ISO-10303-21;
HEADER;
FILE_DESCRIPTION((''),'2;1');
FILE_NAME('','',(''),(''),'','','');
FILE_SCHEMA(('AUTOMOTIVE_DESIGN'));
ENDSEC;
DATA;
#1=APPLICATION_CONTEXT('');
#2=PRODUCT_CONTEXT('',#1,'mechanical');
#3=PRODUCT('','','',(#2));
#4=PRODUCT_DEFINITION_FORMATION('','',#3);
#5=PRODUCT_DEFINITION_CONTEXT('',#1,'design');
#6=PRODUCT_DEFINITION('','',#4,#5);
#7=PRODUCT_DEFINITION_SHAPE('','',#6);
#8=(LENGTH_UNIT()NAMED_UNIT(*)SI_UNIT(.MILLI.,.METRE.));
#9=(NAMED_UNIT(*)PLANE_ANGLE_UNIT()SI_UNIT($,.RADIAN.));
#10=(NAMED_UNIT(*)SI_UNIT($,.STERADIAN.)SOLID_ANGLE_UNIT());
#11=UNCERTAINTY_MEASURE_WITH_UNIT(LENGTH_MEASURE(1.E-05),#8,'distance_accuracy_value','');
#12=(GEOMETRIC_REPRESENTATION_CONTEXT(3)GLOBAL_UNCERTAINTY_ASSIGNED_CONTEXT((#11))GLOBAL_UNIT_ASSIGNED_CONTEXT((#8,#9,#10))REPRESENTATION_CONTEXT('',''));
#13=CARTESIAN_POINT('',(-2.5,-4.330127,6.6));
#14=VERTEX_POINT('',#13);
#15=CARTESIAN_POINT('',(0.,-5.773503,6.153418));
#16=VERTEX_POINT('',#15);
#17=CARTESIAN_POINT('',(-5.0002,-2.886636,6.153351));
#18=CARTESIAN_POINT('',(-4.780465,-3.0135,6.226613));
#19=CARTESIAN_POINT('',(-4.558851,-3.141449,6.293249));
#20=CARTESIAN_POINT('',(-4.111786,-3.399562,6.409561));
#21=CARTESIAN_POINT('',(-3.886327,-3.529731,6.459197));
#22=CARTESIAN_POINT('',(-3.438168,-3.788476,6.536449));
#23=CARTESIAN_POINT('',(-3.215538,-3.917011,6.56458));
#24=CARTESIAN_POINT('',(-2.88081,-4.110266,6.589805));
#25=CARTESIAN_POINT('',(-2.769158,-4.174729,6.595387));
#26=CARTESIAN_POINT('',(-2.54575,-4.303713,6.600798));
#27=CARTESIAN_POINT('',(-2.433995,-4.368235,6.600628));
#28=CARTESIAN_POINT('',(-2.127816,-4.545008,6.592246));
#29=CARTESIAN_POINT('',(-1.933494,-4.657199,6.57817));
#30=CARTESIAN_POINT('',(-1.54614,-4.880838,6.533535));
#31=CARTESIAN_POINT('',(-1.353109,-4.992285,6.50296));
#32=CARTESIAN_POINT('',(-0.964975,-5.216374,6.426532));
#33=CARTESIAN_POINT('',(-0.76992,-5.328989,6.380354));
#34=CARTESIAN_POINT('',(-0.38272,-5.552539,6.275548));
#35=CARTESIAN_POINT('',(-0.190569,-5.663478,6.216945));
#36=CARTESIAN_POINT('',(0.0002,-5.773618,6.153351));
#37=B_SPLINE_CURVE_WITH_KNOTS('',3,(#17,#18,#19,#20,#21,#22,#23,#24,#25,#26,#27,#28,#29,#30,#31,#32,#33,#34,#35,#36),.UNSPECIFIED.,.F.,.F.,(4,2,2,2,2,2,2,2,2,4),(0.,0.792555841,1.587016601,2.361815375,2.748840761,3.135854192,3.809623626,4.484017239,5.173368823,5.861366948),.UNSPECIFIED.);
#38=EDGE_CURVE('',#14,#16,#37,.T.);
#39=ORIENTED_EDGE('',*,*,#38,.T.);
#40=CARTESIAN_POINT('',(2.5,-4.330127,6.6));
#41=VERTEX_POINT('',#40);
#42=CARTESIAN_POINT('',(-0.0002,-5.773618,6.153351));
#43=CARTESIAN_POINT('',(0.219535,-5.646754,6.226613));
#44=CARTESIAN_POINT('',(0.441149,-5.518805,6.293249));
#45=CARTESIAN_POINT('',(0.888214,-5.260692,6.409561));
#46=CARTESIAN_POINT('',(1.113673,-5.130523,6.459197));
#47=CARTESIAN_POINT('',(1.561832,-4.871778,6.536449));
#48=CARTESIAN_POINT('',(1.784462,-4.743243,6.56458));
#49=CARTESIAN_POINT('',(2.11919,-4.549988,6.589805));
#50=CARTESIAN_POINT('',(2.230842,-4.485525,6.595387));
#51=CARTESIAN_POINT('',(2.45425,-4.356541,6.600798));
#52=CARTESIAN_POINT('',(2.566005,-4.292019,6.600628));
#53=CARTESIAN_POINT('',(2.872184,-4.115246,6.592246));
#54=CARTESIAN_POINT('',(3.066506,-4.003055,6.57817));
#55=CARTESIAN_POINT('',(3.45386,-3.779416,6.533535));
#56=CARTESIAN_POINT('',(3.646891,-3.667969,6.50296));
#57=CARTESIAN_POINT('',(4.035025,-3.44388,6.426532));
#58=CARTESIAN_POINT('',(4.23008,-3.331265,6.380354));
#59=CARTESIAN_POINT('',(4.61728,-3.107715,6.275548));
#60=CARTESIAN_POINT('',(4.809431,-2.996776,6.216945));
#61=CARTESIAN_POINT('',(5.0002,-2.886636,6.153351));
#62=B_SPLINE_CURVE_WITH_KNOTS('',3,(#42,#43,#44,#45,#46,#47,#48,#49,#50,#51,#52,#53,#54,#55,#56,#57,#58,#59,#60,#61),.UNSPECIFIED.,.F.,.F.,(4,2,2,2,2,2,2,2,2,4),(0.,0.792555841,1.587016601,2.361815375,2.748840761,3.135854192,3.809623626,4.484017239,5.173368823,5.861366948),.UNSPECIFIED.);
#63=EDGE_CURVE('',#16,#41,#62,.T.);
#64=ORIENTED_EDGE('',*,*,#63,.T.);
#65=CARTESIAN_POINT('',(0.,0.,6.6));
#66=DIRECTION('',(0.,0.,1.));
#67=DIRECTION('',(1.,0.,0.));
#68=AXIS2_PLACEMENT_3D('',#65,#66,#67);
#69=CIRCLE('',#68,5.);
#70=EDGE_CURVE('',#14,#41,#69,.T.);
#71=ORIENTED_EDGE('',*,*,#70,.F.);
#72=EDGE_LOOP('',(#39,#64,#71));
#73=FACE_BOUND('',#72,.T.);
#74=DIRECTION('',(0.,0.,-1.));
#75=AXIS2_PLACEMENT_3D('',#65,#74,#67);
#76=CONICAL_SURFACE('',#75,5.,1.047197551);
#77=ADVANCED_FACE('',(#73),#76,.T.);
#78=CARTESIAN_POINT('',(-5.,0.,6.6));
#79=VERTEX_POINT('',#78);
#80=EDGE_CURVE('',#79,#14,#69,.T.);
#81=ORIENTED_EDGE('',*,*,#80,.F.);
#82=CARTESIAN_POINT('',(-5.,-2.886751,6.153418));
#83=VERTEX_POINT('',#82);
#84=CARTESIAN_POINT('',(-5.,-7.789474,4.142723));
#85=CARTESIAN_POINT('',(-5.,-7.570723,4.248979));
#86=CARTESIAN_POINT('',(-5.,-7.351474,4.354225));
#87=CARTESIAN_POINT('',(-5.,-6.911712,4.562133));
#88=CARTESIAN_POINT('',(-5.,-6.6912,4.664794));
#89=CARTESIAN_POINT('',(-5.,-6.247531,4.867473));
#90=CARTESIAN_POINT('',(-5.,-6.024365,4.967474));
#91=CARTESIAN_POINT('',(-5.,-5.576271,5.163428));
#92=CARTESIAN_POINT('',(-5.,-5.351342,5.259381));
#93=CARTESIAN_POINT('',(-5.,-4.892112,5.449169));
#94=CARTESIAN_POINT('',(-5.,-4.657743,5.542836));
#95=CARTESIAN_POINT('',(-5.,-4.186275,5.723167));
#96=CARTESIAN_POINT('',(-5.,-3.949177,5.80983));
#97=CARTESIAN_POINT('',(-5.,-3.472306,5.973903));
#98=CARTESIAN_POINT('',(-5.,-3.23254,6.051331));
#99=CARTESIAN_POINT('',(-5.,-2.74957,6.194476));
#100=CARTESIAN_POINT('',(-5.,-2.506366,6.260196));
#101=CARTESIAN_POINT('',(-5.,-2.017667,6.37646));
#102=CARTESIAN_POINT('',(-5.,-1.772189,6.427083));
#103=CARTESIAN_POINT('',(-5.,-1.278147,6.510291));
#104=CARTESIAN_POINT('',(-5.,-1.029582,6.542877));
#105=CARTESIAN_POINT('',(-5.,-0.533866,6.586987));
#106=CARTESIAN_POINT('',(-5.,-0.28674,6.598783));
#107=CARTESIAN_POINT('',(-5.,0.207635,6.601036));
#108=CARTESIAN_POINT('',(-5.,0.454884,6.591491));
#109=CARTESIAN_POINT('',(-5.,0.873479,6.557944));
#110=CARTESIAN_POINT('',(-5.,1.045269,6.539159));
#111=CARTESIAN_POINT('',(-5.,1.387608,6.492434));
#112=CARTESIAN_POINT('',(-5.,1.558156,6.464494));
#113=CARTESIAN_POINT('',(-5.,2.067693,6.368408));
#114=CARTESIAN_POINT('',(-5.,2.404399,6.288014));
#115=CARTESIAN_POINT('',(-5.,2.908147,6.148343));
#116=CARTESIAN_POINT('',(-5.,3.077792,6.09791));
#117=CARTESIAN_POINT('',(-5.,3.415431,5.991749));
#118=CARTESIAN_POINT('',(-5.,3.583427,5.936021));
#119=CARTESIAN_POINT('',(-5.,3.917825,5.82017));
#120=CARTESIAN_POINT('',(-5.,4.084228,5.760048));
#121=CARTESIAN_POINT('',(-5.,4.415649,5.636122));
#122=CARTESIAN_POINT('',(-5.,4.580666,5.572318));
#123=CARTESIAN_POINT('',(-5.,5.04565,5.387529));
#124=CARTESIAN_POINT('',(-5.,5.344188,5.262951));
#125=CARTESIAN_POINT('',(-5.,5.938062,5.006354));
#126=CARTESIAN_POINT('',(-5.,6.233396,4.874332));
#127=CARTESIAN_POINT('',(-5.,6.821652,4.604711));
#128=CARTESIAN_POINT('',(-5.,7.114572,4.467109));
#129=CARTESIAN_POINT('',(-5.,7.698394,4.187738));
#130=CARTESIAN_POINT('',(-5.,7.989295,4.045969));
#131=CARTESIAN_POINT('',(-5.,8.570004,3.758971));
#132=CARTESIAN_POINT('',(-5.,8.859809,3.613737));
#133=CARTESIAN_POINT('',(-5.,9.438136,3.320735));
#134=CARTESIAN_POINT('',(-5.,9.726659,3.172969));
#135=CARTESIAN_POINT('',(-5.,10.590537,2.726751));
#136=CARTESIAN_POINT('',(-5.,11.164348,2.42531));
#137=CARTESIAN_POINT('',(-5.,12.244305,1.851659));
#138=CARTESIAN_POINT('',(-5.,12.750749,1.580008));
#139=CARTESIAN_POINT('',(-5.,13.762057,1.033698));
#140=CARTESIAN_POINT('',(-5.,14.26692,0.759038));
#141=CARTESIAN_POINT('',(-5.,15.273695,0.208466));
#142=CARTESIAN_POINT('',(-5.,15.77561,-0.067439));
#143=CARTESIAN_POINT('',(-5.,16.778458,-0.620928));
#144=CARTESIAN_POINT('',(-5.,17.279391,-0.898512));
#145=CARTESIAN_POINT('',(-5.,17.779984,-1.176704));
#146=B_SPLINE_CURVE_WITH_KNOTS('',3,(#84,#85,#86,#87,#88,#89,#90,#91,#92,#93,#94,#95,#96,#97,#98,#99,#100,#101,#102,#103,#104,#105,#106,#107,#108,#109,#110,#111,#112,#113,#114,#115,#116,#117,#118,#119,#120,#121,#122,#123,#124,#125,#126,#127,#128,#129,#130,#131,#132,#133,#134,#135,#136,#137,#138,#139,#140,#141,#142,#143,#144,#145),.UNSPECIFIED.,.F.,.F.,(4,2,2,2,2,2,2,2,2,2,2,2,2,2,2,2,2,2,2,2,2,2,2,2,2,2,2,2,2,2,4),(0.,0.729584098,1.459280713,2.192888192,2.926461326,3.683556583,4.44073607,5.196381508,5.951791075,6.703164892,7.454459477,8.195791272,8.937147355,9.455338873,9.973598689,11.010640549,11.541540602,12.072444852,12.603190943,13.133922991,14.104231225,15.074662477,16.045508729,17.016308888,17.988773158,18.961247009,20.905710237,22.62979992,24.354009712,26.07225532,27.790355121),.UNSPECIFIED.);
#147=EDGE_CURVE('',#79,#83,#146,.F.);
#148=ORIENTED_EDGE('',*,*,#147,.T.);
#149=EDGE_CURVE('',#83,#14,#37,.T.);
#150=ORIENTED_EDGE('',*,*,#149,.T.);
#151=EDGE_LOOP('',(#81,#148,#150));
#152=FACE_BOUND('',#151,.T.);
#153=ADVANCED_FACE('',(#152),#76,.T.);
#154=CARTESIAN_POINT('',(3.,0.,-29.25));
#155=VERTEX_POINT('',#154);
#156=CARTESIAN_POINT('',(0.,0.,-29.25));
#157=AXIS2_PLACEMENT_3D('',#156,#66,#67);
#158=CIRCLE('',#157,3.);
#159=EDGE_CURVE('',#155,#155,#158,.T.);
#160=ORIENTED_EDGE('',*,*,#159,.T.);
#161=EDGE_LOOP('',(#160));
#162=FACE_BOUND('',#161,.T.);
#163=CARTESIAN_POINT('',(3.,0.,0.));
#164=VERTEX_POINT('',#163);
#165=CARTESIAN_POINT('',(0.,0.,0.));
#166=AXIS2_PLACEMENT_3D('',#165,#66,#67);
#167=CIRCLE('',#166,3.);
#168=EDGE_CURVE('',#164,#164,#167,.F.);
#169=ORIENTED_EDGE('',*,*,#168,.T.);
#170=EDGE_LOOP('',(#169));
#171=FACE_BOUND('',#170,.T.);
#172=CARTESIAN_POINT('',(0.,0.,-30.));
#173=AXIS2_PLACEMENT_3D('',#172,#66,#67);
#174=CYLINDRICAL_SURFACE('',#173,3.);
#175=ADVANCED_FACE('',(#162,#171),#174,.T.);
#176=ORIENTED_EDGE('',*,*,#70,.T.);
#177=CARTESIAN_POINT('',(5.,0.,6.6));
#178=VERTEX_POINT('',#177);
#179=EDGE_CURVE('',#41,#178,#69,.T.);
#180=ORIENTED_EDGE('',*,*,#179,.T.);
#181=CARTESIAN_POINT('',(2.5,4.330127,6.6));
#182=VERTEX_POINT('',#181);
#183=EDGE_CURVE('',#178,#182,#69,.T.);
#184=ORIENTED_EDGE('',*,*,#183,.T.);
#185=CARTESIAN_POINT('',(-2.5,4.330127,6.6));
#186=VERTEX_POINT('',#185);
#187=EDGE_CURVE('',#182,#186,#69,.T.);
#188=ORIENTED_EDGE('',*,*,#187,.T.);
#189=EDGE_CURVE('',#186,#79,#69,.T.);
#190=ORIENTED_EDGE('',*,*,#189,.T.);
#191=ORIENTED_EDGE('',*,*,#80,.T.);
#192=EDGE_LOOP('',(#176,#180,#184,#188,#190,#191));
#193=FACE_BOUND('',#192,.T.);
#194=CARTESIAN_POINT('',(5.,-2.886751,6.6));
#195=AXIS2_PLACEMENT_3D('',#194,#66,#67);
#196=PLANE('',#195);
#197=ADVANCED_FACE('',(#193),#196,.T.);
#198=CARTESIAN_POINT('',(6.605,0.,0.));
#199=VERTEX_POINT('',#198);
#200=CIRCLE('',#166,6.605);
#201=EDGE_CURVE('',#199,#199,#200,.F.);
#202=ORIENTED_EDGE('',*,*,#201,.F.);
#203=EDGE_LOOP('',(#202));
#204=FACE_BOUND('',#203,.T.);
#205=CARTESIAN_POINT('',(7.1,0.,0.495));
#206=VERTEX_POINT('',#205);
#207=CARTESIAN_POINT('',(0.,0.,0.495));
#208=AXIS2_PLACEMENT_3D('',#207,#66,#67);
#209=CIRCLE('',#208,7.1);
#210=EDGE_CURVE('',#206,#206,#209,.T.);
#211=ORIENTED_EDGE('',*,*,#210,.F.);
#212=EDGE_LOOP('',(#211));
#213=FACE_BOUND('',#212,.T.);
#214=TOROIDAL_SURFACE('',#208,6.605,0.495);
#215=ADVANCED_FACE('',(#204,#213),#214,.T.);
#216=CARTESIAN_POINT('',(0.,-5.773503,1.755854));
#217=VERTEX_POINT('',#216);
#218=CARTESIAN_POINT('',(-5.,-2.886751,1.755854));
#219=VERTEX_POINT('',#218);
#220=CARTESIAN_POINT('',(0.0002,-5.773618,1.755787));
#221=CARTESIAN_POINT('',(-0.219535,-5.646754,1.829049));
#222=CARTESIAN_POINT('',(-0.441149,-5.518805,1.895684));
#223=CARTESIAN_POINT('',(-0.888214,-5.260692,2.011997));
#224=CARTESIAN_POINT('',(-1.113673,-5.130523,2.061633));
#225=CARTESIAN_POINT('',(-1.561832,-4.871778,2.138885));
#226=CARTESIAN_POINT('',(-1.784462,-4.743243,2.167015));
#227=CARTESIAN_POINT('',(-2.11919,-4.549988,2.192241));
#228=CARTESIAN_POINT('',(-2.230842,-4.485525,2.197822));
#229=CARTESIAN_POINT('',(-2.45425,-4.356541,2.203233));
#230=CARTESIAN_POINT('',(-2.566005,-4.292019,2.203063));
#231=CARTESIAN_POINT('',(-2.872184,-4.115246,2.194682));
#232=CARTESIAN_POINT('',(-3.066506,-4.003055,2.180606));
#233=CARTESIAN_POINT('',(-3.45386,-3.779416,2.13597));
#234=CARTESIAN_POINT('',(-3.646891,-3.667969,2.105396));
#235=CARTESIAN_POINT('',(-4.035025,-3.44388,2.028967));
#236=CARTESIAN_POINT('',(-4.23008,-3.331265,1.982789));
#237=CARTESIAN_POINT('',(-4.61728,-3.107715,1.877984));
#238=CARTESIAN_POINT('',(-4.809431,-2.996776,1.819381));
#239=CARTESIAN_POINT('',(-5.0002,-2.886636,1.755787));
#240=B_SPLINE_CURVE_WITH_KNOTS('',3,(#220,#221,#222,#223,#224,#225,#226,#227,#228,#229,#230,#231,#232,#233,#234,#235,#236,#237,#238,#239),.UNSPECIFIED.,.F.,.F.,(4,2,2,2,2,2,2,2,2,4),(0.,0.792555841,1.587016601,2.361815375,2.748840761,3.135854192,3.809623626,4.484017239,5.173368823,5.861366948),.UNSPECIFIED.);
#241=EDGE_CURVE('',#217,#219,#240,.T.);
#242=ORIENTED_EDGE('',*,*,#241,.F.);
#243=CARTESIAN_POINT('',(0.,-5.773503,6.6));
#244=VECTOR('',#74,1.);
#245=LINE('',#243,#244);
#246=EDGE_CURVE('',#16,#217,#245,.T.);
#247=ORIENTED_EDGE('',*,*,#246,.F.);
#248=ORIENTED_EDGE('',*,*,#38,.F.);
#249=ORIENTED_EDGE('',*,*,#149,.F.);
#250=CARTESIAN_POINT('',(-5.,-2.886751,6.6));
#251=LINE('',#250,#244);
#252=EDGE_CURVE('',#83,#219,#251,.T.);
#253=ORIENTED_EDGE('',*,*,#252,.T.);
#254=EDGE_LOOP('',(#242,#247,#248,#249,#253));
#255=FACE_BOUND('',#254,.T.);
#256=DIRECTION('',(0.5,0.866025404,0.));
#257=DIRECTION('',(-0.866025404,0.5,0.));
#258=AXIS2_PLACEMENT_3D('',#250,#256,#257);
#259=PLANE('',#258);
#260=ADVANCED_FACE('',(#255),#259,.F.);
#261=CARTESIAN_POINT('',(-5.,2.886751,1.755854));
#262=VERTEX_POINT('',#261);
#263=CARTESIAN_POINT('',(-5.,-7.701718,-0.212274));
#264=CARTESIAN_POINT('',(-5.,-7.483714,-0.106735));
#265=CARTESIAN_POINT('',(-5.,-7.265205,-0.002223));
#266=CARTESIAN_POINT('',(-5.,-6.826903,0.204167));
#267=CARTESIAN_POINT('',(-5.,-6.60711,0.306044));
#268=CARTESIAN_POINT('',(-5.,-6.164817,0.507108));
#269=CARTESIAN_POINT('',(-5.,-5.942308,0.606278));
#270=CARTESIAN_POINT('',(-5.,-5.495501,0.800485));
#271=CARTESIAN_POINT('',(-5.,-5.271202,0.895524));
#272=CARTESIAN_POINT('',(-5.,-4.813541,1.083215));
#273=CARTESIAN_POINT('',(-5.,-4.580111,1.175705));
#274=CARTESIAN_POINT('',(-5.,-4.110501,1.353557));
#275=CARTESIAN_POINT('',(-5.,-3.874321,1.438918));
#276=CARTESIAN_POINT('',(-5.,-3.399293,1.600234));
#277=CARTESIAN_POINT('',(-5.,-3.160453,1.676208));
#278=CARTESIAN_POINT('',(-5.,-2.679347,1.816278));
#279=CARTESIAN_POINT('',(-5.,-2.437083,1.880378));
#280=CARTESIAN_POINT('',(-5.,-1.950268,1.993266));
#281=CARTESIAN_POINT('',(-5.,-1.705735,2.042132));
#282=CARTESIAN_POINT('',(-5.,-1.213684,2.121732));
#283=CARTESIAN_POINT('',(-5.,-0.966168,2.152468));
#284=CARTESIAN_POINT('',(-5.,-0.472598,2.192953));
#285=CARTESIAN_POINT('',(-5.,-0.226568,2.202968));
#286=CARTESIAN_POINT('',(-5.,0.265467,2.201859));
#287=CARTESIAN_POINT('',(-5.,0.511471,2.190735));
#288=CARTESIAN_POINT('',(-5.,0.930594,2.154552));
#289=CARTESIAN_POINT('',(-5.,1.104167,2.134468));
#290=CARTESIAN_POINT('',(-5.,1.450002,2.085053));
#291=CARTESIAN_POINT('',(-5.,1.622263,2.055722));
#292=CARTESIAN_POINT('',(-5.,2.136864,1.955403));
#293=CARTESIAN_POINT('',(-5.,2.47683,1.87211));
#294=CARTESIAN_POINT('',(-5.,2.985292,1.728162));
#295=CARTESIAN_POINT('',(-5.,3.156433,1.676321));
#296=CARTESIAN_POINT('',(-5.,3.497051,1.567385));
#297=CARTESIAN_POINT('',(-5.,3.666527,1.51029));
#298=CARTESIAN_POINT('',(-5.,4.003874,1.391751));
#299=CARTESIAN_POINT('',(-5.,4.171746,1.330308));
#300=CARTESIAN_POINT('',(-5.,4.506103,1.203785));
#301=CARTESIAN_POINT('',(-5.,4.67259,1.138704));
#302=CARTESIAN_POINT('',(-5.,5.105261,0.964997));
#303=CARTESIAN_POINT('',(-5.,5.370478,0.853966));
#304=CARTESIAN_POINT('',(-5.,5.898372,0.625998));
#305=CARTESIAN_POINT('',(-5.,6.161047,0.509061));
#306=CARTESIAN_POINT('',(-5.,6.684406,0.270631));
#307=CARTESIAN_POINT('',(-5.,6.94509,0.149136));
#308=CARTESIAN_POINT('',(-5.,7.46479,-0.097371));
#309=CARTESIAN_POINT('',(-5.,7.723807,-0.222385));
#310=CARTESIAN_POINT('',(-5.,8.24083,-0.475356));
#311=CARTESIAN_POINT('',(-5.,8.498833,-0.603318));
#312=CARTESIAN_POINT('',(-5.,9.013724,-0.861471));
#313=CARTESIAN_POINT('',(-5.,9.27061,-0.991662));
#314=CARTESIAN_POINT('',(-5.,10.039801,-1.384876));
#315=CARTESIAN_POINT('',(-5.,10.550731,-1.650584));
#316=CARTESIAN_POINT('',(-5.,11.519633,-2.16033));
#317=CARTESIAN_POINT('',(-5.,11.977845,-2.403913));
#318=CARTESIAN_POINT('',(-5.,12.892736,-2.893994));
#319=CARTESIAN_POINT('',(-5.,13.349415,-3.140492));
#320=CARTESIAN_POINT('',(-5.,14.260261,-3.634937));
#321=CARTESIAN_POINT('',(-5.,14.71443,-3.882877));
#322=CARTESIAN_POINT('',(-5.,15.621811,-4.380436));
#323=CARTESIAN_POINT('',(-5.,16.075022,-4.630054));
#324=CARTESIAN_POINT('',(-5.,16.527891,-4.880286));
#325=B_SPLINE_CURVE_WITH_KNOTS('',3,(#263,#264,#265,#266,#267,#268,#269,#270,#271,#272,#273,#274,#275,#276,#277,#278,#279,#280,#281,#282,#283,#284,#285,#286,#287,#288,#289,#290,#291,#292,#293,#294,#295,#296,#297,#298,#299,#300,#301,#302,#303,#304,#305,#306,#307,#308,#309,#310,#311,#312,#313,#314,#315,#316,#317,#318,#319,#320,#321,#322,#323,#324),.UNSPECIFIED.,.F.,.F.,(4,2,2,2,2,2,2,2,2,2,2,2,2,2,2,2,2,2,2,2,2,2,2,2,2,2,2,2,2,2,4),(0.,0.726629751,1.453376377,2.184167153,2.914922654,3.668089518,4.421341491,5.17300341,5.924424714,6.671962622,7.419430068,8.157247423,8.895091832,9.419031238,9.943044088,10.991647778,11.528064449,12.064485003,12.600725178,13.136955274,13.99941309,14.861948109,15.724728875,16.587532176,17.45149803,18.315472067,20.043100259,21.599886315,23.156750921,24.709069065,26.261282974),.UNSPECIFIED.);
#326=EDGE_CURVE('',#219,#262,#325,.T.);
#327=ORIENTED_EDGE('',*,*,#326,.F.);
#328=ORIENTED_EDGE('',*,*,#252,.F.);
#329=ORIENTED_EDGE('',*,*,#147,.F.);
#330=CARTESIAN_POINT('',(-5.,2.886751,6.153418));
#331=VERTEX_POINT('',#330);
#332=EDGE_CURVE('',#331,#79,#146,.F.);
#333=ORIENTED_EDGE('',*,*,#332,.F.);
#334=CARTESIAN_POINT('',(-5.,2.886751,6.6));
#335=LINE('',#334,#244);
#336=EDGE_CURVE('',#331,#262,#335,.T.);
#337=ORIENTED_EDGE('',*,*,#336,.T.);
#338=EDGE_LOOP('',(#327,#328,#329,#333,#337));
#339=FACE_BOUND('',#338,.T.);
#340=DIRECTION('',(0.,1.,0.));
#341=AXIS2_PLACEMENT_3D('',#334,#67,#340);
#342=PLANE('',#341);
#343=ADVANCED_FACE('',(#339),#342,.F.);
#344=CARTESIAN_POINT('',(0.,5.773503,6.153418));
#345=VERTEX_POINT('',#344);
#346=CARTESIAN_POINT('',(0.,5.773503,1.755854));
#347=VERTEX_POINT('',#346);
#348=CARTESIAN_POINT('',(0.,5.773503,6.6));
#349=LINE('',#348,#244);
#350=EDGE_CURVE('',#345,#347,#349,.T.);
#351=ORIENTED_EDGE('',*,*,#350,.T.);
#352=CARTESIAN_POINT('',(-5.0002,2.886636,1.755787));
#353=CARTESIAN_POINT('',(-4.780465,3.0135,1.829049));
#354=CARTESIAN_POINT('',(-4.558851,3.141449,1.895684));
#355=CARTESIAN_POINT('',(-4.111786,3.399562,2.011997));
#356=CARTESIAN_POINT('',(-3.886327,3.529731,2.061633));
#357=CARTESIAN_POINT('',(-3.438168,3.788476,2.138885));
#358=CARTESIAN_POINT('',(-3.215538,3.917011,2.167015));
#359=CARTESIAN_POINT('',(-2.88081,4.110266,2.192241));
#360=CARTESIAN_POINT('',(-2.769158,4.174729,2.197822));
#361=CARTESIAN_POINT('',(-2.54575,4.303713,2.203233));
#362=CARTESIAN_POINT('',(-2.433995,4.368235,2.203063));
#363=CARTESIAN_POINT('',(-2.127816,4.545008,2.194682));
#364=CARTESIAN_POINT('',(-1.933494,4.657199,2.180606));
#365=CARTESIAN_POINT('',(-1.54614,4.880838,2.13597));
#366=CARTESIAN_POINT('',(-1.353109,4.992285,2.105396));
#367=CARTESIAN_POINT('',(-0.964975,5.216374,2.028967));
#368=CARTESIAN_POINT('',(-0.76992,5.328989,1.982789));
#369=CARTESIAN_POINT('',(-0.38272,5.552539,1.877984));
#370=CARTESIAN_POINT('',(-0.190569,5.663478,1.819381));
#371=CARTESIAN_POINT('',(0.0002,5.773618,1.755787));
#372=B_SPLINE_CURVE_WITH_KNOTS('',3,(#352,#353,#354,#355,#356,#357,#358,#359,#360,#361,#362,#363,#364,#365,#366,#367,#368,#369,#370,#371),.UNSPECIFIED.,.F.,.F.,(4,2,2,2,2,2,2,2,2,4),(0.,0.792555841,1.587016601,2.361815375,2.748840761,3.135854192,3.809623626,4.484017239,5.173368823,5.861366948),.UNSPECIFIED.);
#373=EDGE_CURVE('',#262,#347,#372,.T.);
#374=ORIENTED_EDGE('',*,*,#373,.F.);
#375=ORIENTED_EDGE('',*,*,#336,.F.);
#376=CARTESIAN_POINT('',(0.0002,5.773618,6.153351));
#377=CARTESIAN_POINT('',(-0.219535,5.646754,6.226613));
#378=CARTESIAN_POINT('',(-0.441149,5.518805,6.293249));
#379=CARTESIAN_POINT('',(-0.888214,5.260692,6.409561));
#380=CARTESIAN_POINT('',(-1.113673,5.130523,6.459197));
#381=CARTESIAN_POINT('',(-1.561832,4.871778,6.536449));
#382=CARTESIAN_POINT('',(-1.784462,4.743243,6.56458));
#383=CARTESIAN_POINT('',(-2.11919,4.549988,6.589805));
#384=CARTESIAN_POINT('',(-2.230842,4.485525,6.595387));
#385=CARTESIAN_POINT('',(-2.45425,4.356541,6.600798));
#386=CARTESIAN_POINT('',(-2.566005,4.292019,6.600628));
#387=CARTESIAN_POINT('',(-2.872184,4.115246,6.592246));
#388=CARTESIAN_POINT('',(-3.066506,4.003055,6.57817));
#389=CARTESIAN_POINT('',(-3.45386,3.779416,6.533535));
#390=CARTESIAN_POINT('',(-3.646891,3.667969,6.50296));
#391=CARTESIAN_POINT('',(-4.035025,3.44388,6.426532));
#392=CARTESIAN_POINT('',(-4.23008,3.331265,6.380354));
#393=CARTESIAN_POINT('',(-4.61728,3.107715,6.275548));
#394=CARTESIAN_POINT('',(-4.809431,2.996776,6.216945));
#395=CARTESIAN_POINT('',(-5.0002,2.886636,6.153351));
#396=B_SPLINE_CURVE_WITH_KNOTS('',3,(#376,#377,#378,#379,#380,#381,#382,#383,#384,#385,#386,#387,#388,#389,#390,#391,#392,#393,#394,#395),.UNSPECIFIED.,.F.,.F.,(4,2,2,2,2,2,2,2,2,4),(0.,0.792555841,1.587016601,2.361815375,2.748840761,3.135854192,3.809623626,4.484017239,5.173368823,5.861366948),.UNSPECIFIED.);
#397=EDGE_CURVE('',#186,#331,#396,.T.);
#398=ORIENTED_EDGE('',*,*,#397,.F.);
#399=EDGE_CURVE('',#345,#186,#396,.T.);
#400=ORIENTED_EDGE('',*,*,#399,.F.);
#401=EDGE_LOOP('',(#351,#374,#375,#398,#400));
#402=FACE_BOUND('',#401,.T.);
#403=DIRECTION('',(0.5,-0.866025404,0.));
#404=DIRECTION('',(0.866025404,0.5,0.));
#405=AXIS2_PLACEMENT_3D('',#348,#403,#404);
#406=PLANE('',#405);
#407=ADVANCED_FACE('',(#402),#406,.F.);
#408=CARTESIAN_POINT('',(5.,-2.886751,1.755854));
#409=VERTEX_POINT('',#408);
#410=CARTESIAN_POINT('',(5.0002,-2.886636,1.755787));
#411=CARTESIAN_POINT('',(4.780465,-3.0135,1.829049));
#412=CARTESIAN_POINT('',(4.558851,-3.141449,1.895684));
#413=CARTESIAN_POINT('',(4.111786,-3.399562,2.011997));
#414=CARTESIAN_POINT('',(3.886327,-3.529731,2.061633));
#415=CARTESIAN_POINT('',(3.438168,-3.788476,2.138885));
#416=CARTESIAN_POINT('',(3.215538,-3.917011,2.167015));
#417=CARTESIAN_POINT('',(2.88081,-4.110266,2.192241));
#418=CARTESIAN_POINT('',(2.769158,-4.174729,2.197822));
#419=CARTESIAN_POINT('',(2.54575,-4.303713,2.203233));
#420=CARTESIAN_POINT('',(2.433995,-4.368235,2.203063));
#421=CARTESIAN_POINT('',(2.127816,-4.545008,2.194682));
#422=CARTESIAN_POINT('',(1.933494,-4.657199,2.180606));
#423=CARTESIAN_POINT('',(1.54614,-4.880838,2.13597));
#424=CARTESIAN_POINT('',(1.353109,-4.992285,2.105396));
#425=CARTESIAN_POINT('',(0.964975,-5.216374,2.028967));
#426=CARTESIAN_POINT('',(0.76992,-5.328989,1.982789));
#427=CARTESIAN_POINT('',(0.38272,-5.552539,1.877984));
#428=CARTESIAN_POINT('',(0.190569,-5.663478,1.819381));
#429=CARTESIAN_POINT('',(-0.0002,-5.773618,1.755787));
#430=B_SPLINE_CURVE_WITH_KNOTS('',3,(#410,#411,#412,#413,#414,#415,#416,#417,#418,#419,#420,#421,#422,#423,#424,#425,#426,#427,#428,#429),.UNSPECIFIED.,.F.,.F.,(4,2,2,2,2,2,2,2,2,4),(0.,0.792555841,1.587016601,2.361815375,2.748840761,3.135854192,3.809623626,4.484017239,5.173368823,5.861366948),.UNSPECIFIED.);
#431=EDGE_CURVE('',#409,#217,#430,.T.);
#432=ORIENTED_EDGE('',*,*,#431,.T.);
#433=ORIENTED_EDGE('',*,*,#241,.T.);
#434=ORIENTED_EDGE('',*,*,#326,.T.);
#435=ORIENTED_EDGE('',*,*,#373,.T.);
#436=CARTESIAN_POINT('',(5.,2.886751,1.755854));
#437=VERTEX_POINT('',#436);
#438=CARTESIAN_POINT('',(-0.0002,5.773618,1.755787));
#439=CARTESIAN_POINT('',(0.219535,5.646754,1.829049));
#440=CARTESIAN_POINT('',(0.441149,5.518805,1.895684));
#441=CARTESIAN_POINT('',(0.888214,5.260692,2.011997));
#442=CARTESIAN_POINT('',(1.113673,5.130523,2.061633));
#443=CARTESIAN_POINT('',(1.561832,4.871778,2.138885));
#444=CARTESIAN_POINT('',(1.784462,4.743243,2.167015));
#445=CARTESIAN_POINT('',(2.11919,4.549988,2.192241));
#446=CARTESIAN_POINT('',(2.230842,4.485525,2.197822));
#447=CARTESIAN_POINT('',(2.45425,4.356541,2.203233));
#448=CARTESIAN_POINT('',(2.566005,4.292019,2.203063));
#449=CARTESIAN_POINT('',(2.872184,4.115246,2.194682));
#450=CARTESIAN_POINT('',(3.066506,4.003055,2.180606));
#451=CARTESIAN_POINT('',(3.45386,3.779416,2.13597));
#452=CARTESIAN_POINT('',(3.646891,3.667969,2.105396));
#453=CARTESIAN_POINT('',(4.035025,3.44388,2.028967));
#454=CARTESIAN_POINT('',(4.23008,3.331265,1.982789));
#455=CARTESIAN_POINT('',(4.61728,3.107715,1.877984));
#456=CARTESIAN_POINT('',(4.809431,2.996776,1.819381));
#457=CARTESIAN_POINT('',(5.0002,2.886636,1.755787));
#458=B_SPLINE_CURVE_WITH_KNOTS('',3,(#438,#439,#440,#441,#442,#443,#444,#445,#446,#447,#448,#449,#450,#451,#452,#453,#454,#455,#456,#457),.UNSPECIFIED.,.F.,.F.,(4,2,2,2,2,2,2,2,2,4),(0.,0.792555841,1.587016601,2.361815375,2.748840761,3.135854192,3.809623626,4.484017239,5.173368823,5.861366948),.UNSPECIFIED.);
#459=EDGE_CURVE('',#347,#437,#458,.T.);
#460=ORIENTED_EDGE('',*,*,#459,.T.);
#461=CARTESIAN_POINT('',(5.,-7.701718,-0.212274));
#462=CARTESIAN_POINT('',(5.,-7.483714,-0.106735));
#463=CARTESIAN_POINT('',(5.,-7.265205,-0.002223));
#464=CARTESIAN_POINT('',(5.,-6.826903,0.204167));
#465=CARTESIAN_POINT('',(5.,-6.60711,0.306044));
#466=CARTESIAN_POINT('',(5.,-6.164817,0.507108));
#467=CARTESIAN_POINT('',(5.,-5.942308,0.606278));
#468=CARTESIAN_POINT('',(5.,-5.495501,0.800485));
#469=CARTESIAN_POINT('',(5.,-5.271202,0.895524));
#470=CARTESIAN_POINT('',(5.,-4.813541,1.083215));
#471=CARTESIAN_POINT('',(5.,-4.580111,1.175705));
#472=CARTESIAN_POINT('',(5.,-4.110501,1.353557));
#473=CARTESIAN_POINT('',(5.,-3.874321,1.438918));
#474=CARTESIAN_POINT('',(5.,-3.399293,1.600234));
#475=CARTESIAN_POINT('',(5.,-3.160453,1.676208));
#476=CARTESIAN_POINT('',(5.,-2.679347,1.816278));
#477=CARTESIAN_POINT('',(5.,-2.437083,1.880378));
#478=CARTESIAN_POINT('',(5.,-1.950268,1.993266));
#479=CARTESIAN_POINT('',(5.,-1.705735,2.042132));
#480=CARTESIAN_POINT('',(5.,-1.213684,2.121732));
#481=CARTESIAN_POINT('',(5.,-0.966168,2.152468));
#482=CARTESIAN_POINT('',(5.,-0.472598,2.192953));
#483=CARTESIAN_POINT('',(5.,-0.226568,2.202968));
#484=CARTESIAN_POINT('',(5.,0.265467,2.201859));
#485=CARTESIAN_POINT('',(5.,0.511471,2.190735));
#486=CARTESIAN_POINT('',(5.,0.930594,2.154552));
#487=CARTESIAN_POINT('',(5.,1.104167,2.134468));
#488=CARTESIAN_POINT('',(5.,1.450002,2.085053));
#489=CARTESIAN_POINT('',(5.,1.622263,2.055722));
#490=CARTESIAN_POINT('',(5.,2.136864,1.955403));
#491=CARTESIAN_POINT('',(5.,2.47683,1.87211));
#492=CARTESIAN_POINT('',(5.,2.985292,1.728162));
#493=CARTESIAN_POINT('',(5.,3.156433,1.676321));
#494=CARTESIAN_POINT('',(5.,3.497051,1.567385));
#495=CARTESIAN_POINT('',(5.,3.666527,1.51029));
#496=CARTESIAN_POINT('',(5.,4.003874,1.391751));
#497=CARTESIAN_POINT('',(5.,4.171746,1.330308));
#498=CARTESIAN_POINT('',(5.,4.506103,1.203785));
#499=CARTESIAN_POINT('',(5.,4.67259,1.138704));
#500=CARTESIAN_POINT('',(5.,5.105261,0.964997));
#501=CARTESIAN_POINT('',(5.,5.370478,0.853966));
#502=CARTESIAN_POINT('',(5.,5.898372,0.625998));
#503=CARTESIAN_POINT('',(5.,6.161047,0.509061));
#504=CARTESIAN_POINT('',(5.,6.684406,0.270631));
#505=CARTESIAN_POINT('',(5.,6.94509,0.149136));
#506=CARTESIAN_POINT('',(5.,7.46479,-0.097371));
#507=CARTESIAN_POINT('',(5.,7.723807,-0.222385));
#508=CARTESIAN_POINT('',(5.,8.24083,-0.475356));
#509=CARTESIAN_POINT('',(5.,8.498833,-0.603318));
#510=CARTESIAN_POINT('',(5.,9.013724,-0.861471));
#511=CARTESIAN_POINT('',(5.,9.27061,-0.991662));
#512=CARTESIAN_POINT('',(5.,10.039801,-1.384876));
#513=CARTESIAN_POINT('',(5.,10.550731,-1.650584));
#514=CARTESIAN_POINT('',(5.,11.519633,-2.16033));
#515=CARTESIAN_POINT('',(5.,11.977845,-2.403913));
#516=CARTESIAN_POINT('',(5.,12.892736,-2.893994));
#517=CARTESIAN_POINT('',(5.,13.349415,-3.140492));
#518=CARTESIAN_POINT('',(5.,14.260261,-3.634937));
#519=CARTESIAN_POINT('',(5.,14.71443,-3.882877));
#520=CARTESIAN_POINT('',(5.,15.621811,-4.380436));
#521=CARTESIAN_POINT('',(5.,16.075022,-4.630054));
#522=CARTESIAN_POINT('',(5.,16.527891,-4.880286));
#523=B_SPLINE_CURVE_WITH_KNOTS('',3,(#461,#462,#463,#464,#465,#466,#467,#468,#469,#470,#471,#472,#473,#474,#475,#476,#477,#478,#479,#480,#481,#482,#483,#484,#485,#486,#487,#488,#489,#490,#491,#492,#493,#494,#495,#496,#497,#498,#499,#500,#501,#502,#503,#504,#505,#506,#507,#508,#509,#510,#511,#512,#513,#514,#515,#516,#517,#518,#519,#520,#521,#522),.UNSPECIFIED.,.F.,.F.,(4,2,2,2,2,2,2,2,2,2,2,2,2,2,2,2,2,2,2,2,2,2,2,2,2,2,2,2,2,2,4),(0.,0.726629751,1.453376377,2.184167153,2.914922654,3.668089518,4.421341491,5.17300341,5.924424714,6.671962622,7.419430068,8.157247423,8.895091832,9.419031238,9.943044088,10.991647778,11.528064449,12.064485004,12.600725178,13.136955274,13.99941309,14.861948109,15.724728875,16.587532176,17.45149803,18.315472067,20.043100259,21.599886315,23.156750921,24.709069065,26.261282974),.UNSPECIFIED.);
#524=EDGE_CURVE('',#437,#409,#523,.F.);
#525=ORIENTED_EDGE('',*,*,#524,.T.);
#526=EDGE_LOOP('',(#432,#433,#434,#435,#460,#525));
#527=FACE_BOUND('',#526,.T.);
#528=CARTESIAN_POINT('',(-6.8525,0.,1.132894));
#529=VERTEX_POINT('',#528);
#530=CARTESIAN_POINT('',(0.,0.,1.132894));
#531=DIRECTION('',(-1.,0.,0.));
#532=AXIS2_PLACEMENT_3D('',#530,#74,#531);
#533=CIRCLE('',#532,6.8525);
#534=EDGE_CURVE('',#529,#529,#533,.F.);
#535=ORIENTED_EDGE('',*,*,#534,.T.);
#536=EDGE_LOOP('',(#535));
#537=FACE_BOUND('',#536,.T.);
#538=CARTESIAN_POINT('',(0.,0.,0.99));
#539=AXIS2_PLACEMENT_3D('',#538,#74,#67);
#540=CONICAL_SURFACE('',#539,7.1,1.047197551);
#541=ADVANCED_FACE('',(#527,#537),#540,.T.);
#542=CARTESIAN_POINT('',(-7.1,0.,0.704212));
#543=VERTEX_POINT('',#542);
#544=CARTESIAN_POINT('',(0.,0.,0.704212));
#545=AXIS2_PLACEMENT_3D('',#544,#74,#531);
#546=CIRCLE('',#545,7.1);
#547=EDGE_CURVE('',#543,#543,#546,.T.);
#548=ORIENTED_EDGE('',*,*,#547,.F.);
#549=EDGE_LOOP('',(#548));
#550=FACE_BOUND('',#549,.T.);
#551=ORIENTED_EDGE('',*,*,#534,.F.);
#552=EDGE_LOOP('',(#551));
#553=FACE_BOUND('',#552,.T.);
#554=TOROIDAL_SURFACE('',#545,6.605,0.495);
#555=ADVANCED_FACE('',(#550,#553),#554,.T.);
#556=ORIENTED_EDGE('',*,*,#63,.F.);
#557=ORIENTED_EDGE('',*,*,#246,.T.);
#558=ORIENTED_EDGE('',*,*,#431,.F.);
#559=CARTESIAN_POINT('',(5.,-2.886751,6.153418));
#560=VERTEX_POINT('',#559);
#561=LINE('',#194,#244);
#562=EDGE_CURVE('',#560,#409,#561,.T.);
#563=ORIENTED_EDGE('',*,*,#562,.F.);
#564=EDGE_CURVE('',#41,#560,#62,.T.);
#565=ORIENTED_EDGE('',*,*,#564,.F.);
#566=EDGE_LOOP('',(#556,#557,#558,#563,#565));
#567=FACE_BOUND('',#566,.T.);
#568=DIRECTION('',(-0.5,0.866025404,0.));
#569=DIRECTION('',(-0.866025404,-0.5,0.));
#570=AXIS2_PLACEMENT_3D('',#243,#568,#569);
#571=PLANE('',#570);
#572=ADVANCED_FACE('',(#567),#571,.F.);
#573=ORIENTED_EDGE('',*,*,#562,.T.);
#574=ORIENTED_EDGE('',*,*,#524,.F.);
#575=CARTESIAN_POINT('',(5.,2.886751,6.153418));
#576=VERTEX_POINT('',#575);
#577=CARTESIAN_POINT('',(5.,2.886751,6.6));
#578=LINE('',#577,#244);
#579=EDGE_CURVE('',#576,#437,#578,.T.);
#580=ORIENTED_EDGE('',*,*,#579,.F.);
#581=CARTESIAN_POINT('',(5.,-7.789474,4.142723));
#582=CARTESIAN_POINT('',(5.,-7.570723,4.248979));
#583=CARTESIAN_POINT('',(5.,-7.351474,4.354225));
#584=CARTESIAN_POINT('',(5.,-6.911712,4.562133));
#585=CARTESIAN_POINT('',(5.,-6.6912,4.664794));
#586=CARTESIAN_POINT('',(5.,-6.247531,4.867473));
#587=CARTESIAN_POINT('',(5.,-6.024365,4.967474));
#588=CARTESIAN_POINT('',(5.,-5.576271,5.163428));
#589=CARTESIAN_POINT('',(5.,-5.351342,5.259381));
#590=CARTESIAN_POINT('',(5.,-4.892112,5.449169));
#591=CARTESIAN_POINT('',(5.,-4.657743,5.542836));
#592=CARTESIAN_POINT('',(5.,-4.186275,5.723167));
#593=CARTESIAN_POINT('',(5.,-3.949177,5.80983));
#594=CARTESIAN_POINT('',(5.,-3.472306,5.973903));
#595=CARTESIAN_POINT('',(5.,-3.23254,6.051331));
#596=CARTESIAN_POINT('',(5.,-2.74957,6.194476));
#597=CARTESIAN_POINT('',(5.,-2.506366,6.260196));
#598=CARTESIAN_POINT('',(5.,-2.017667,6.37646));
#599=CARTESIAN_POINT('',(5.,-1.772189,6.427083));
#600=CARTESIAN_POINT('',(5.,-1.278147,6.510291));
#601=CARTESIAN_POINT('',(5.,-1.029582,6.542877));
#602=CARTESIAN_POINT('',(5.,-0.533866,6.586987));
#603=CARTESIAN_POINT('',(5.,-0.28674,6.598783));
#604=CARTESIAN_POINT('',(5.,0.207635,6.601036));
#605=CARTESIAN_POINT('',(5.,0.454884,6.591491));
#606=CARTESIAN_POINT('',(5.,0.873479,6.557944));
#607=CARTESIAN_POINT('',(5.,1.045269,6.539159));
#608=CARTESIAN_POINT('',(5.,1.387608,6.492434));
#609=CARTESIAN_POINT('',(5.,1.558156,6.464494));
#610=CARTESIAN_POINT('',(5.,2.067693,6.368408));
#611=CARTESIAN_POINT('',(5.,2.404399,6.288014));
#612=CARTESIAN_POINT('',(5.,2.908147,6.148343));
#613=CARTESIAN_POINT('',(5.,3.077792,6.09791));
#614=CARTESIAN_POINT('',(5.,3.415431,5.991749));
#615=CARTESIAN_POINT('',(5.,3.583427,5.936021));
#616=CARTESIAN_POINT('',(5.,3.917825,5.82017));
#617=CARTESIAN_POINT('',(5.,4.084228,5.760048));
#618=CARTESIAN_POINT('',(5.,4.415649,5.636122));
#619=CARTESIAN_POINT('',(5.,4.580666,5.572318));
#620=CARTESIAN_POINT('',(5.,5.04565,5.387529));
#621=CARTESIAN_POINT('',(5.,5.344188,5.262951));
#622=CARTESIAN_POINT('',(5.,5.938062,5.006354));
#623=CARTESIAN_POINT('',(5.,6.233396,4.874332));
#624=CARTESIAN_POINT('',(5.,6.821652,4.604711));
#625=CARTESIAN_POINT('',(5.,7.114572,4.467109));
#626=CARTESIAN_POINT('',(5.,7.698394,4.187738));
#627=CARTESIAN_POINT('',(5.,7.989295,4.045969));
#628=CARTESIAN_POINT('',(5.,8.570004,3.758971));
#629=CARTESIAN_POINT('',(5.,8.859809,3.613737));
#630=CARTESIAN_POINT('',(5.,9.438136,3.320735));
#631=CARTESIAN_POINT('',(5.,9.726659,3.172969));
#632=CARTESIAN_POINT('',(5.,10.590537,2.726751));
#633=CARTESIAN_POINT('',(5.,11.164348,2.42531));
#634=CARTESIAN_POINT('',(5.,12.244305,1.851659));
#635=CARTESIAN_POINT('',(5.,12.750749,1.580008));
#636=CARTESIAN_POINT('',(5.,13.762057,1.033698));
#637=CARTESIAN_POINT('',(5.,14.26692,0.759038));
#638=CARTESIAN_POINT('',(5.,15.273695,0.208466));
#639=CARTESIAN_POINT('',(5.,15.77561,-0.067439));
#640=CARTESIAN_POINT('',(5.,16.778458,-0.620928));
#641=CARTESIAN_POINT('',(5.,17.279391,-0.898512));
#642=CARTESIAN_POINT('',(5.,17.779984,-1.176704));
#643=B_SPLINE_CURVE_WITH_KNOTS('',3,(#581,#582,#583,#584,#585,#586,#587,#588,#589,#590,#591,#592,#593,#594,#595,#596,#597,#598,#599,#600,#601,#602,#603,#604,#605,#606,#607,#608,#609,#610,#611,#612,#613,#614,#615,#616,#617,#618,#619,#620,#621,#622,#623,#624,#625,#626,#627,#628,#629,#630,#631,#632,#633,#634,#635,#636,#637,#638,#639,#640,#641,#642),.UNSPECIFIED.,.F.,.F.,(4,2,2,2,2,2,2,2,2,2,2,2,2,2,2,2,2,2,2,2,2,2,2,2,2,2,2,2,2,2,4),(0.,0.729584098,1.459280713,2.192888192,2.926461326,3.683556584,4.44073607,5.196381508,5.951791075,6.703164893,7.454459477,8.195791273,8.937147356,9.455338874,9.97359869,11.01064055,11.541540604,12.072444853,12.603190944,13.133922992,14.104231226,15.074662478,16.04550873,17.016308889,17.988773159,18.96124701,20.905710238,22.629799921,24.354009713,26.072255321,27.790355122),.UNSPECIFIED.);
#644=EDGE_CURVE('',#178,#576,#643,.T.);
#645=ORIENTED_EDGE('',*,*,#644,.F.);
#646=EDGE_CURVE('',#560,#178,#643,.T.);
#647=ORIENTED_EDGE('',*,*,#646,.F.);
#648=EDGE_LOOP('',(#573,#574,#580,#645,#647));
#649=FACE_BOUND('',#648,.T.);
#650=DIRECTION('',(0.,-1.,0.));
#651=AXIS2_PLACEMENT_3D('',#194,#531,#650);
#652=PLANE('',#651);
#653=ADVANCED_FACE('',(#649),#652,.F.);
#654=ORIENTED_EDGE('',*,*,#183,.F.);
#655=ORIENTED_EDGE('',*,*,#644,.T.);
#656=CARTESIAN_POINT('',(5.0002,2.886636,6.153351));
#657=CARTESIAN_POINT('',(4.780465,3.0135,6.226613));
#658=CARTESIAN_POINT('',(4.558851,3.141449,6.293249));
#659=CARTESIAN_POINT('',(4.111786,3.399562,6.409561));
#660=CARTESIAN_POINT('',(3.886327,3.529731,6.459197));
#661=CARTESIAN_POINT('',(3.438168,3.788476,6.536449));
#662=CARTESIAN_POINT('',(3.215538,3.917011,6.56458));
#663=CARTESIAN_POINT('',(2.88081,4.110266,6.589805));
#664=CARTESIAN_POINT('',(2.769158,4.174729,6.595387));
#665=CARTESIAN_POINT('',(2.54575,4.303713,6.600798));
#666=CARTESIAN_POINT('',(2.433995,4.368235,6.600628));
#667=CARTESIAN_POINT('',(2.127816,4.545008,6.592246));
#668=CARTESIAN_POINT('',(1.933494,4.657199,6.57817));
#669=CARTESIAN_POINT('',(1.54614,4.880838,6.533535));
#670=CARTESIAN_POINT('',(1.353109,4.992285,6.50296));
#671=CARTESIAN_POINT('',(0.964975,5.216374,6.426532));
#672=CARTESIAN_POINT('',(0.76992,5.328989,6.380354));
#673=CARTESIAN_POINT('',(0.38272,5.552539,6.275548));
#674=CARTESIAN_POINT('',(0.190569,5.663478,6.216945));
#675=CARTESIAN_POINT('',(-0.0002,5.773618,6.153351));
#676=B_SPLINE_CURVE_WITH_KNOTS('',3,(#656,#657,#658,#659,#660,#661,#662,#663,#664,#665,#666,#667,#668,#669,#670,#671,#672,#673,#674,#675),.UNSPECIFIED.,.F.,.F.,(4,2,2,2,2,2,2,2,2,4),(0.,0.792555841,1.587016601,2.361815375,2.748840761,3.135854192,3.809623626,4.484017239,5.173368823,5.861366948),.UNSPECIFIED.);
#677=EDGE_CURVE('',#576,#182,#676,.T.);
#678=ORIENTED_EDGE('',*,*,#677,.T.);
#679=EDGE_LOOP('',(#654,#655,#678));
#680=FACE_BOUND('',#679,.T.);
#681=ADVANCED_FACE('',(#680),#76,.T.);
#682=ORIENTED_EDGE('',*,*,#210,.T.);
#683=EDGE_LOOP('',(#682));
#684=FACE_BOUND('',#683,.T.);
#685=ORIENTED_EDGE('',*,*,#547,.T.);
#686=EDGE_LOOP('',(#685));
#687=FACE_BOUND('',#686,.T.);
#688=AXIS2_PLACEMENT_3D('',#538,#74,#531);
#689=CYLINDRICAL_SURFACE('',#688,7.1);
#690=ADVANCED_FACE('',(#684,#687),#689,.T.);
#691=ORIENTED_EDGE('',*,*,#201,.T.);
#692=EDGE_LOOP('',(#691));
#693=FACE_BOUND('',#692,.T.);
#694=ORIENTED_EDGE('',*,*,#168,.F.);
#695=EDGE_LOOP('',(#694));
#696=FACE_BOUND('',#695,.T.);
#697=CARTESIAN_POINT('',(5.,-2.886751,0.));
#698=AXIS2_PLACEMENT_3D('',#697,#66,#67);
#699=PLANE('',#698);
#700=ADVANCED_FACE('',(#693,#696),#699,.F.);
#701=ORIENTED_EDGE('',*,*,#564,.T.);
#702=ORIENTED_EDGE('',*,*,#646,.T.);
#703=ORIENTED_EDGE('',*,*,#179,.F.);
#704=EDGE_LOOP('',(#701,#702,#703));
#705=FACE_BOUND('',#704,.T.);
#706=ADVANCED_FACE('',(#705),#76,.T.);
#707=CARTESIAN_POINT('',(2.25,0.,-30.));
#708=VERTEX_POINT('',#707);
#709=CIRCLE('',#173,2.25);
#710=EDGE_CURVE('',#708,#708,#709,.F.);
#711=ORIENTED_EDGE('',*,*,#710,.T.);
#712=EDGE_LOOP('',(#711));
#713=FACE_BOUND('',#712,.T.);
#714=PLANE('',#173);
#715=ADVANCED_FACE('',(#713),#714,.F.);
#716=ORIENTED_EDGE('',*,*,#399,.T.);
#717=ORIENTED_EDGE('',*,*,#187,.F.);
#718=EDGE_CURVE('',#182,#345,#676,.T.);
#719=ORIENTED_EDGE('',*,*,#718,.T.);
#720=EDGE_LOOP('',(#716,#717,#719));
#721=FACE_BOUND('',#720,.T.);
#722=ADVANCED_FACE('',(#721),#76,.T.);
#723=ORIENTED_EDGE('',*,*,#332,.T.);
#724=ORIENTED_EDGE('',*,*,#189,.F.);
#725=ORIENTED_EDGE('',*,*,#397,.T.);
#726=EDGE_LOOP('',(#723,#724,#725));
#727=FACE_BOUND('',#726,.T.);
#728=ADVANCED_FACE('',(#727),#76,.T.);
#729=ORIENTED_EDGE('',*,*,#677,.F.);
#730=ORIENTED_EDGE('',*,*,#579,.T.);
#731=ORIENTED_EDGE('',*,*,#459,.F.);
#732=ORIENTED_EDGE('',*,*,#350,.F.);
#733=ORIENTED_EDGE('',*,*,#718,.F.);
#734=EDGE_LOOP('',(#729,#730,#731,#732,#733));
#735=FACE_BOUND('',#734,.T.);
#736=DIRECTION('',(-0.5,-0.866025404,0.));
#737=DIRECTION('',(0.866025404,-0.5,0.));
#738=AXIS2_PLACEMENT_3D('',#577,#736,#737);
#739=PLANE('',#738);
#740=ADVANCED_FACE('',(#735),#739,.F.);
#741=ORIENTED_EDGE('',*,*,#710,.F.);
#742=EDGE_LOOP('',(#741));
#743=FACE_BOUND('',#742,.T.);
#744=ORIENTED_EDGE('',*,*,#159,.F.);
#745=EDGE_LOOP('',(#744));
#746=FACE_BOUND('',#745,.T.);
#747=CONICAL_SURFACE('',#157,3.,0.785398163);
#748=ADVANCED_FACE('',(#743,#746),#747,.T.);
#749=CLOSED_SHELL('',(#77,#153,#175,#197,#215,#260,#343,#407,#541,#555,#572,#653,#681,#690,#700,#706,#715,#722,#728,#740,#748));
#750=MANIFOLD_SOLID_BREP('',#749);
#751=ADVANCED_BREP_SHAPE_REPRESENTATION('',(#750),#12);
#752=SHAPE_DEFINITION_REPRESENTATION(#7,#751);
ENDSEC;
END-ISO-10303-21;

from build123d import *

# Parameters (mm, degrees)
EXTRUDE1_DEPTH     = 6.6
SKETCH2_R          = 7.1
EXTRUDE2_DEPTH     = 0.99
SKETCH15_OUTSIDE_W = 43.29
SKETCH15_OUTSIDE_H = 43.29
SKETCH15_OUTSIDE_R = 5
CUT_EXTRUDE5_DEPTH = 6.6
CUT_EXTRUDE5_DRAFT = -60
SKETCH5_W          = 30
SKETCH5_H          = 3
CHAMFER1_SIZE      = 0.75
SKETCH11_R         = 7.1
EXTRUDE3_DEPTH     = 3.3
EXTRUDE3_TAPER     = 60
FILLET1_R          = 0.495


with BuildPart() as part:
    # Sketch1 → Extrude1 (new body)
    with BuildSketch(Plane.XY):
        Polygon((5, -2.886751346), (5, 2.886751346), (0, 5.773502692), (-5, 2.886751346), (-5, -2.886751346), (0, -5.773502692), align=None)
    extrude(amount=EXTRUDE1_DEPTH)

    # Sketch2 → Extrude2 (add)
    with BuildSketch(Plane(origin=(0, 0, 0), x_dir=(-1, 0, 0), z_dir=(0, 0, -1))):
        Circle(SKETCH2_R)
    extrude(amount=-EXTRUDE2_DEPTH)


with BuildPart() as cut_extrude5_tool:
    # Sketch15 outside → Cut-Extrude5 (with draft: the straight prism first)
    with BuildSketch(Plane.XY.offset(6.6)):
        Rectangle(SKETCH15_OUTSIDE_W, SKETCH15_OUTSIDE_H)
        Circle(SKETCH15_OUTSIDE_R, mode=Mode.SUBTRACT)
    extrude(amount=-CUT_EXTRUDE5_DEPTH)
    # Cut-Extrude5: the draft: its side faces are tilted about the plane it starts from
    cut_extrude5_sides = [cut_extrude5_tool.faces().sort_by_distance(p)[0] for p in [
        (0, -21.645, 3.3),
        (21.645, 0, 3.3),
        (0, 21.645, 3.3),
        (-21.645, 0, 3.3),
        (-5, 0, 3.3),
    ]]
    draft(cut_extrude5_sides, Plane.XY.offset(6.6), CUT_EXTRUDE5_DRAFT)


with BuildPart() as part_1:
    add(part.part)

    # Cut-Extrude5: cut by cut_extrude5_tool
    add(cut_extrude5_tool.part, mode=Mode.SUBTRACT)


with BuildPart() as body_2:
    # Sketch5 → Revolve1 (revolve)
    with BuildSketch(Plane(origin=(0, 0, 0), x_dir=(0, 0, -1), z_dir=(1, 0, 0))):
        with Locations((15, 1.5)):
            Rectangle(SKETCH5_W, SKETCH5_H)
    revolve(axis=Axis((0, 0, -30), (0, 0, -1)))

    # Chamfer1
    chamfer1_edges = [body_2.edges().sort_by_distance(p)[0] for p in [
        (0, -3, -30),
    ]]
    chamfer(chamfer1_edges, length=CHAMFER1_SIZE)


with BuildPart() as part_2:
    add(part_1.part)

    # Combine1: union body 2
    add(body_2.part)

    # Sketch10 → Revolve2 (revolve)
    with BuildSketch(Plane(origin=(0, 0, 0), x_dir=(0, 0, -1), z_dir=(1, 0, 0))):
        Polygon((12, 2.350480947), (11.697124292, 3), (-0.875, 3), (-0.875, 0), (12, 0), align=None)
    revolve(axis=Axis((0, 0, 0.875), (0, 0, -1)))

    # Sketch11 → Extrude3 (add)
    with BuildSketch(Plane.XY.offset(0.99)):
        Circle(SKETCH11_R)
    extrude(amount=EXTRUDE3_DEPTH, taper=EXTRUDE3_TAPER)

    # Fillet1
    fillet1_edges = [part_2.edges().sort_by_distance(p)[0] for p in [
        (7.1, 0, 0),
        (0, -7.1, 0.99),
    ]]
    fillet(fillet1_edges, radius=FILLET1_R)


solid = part_2.part
